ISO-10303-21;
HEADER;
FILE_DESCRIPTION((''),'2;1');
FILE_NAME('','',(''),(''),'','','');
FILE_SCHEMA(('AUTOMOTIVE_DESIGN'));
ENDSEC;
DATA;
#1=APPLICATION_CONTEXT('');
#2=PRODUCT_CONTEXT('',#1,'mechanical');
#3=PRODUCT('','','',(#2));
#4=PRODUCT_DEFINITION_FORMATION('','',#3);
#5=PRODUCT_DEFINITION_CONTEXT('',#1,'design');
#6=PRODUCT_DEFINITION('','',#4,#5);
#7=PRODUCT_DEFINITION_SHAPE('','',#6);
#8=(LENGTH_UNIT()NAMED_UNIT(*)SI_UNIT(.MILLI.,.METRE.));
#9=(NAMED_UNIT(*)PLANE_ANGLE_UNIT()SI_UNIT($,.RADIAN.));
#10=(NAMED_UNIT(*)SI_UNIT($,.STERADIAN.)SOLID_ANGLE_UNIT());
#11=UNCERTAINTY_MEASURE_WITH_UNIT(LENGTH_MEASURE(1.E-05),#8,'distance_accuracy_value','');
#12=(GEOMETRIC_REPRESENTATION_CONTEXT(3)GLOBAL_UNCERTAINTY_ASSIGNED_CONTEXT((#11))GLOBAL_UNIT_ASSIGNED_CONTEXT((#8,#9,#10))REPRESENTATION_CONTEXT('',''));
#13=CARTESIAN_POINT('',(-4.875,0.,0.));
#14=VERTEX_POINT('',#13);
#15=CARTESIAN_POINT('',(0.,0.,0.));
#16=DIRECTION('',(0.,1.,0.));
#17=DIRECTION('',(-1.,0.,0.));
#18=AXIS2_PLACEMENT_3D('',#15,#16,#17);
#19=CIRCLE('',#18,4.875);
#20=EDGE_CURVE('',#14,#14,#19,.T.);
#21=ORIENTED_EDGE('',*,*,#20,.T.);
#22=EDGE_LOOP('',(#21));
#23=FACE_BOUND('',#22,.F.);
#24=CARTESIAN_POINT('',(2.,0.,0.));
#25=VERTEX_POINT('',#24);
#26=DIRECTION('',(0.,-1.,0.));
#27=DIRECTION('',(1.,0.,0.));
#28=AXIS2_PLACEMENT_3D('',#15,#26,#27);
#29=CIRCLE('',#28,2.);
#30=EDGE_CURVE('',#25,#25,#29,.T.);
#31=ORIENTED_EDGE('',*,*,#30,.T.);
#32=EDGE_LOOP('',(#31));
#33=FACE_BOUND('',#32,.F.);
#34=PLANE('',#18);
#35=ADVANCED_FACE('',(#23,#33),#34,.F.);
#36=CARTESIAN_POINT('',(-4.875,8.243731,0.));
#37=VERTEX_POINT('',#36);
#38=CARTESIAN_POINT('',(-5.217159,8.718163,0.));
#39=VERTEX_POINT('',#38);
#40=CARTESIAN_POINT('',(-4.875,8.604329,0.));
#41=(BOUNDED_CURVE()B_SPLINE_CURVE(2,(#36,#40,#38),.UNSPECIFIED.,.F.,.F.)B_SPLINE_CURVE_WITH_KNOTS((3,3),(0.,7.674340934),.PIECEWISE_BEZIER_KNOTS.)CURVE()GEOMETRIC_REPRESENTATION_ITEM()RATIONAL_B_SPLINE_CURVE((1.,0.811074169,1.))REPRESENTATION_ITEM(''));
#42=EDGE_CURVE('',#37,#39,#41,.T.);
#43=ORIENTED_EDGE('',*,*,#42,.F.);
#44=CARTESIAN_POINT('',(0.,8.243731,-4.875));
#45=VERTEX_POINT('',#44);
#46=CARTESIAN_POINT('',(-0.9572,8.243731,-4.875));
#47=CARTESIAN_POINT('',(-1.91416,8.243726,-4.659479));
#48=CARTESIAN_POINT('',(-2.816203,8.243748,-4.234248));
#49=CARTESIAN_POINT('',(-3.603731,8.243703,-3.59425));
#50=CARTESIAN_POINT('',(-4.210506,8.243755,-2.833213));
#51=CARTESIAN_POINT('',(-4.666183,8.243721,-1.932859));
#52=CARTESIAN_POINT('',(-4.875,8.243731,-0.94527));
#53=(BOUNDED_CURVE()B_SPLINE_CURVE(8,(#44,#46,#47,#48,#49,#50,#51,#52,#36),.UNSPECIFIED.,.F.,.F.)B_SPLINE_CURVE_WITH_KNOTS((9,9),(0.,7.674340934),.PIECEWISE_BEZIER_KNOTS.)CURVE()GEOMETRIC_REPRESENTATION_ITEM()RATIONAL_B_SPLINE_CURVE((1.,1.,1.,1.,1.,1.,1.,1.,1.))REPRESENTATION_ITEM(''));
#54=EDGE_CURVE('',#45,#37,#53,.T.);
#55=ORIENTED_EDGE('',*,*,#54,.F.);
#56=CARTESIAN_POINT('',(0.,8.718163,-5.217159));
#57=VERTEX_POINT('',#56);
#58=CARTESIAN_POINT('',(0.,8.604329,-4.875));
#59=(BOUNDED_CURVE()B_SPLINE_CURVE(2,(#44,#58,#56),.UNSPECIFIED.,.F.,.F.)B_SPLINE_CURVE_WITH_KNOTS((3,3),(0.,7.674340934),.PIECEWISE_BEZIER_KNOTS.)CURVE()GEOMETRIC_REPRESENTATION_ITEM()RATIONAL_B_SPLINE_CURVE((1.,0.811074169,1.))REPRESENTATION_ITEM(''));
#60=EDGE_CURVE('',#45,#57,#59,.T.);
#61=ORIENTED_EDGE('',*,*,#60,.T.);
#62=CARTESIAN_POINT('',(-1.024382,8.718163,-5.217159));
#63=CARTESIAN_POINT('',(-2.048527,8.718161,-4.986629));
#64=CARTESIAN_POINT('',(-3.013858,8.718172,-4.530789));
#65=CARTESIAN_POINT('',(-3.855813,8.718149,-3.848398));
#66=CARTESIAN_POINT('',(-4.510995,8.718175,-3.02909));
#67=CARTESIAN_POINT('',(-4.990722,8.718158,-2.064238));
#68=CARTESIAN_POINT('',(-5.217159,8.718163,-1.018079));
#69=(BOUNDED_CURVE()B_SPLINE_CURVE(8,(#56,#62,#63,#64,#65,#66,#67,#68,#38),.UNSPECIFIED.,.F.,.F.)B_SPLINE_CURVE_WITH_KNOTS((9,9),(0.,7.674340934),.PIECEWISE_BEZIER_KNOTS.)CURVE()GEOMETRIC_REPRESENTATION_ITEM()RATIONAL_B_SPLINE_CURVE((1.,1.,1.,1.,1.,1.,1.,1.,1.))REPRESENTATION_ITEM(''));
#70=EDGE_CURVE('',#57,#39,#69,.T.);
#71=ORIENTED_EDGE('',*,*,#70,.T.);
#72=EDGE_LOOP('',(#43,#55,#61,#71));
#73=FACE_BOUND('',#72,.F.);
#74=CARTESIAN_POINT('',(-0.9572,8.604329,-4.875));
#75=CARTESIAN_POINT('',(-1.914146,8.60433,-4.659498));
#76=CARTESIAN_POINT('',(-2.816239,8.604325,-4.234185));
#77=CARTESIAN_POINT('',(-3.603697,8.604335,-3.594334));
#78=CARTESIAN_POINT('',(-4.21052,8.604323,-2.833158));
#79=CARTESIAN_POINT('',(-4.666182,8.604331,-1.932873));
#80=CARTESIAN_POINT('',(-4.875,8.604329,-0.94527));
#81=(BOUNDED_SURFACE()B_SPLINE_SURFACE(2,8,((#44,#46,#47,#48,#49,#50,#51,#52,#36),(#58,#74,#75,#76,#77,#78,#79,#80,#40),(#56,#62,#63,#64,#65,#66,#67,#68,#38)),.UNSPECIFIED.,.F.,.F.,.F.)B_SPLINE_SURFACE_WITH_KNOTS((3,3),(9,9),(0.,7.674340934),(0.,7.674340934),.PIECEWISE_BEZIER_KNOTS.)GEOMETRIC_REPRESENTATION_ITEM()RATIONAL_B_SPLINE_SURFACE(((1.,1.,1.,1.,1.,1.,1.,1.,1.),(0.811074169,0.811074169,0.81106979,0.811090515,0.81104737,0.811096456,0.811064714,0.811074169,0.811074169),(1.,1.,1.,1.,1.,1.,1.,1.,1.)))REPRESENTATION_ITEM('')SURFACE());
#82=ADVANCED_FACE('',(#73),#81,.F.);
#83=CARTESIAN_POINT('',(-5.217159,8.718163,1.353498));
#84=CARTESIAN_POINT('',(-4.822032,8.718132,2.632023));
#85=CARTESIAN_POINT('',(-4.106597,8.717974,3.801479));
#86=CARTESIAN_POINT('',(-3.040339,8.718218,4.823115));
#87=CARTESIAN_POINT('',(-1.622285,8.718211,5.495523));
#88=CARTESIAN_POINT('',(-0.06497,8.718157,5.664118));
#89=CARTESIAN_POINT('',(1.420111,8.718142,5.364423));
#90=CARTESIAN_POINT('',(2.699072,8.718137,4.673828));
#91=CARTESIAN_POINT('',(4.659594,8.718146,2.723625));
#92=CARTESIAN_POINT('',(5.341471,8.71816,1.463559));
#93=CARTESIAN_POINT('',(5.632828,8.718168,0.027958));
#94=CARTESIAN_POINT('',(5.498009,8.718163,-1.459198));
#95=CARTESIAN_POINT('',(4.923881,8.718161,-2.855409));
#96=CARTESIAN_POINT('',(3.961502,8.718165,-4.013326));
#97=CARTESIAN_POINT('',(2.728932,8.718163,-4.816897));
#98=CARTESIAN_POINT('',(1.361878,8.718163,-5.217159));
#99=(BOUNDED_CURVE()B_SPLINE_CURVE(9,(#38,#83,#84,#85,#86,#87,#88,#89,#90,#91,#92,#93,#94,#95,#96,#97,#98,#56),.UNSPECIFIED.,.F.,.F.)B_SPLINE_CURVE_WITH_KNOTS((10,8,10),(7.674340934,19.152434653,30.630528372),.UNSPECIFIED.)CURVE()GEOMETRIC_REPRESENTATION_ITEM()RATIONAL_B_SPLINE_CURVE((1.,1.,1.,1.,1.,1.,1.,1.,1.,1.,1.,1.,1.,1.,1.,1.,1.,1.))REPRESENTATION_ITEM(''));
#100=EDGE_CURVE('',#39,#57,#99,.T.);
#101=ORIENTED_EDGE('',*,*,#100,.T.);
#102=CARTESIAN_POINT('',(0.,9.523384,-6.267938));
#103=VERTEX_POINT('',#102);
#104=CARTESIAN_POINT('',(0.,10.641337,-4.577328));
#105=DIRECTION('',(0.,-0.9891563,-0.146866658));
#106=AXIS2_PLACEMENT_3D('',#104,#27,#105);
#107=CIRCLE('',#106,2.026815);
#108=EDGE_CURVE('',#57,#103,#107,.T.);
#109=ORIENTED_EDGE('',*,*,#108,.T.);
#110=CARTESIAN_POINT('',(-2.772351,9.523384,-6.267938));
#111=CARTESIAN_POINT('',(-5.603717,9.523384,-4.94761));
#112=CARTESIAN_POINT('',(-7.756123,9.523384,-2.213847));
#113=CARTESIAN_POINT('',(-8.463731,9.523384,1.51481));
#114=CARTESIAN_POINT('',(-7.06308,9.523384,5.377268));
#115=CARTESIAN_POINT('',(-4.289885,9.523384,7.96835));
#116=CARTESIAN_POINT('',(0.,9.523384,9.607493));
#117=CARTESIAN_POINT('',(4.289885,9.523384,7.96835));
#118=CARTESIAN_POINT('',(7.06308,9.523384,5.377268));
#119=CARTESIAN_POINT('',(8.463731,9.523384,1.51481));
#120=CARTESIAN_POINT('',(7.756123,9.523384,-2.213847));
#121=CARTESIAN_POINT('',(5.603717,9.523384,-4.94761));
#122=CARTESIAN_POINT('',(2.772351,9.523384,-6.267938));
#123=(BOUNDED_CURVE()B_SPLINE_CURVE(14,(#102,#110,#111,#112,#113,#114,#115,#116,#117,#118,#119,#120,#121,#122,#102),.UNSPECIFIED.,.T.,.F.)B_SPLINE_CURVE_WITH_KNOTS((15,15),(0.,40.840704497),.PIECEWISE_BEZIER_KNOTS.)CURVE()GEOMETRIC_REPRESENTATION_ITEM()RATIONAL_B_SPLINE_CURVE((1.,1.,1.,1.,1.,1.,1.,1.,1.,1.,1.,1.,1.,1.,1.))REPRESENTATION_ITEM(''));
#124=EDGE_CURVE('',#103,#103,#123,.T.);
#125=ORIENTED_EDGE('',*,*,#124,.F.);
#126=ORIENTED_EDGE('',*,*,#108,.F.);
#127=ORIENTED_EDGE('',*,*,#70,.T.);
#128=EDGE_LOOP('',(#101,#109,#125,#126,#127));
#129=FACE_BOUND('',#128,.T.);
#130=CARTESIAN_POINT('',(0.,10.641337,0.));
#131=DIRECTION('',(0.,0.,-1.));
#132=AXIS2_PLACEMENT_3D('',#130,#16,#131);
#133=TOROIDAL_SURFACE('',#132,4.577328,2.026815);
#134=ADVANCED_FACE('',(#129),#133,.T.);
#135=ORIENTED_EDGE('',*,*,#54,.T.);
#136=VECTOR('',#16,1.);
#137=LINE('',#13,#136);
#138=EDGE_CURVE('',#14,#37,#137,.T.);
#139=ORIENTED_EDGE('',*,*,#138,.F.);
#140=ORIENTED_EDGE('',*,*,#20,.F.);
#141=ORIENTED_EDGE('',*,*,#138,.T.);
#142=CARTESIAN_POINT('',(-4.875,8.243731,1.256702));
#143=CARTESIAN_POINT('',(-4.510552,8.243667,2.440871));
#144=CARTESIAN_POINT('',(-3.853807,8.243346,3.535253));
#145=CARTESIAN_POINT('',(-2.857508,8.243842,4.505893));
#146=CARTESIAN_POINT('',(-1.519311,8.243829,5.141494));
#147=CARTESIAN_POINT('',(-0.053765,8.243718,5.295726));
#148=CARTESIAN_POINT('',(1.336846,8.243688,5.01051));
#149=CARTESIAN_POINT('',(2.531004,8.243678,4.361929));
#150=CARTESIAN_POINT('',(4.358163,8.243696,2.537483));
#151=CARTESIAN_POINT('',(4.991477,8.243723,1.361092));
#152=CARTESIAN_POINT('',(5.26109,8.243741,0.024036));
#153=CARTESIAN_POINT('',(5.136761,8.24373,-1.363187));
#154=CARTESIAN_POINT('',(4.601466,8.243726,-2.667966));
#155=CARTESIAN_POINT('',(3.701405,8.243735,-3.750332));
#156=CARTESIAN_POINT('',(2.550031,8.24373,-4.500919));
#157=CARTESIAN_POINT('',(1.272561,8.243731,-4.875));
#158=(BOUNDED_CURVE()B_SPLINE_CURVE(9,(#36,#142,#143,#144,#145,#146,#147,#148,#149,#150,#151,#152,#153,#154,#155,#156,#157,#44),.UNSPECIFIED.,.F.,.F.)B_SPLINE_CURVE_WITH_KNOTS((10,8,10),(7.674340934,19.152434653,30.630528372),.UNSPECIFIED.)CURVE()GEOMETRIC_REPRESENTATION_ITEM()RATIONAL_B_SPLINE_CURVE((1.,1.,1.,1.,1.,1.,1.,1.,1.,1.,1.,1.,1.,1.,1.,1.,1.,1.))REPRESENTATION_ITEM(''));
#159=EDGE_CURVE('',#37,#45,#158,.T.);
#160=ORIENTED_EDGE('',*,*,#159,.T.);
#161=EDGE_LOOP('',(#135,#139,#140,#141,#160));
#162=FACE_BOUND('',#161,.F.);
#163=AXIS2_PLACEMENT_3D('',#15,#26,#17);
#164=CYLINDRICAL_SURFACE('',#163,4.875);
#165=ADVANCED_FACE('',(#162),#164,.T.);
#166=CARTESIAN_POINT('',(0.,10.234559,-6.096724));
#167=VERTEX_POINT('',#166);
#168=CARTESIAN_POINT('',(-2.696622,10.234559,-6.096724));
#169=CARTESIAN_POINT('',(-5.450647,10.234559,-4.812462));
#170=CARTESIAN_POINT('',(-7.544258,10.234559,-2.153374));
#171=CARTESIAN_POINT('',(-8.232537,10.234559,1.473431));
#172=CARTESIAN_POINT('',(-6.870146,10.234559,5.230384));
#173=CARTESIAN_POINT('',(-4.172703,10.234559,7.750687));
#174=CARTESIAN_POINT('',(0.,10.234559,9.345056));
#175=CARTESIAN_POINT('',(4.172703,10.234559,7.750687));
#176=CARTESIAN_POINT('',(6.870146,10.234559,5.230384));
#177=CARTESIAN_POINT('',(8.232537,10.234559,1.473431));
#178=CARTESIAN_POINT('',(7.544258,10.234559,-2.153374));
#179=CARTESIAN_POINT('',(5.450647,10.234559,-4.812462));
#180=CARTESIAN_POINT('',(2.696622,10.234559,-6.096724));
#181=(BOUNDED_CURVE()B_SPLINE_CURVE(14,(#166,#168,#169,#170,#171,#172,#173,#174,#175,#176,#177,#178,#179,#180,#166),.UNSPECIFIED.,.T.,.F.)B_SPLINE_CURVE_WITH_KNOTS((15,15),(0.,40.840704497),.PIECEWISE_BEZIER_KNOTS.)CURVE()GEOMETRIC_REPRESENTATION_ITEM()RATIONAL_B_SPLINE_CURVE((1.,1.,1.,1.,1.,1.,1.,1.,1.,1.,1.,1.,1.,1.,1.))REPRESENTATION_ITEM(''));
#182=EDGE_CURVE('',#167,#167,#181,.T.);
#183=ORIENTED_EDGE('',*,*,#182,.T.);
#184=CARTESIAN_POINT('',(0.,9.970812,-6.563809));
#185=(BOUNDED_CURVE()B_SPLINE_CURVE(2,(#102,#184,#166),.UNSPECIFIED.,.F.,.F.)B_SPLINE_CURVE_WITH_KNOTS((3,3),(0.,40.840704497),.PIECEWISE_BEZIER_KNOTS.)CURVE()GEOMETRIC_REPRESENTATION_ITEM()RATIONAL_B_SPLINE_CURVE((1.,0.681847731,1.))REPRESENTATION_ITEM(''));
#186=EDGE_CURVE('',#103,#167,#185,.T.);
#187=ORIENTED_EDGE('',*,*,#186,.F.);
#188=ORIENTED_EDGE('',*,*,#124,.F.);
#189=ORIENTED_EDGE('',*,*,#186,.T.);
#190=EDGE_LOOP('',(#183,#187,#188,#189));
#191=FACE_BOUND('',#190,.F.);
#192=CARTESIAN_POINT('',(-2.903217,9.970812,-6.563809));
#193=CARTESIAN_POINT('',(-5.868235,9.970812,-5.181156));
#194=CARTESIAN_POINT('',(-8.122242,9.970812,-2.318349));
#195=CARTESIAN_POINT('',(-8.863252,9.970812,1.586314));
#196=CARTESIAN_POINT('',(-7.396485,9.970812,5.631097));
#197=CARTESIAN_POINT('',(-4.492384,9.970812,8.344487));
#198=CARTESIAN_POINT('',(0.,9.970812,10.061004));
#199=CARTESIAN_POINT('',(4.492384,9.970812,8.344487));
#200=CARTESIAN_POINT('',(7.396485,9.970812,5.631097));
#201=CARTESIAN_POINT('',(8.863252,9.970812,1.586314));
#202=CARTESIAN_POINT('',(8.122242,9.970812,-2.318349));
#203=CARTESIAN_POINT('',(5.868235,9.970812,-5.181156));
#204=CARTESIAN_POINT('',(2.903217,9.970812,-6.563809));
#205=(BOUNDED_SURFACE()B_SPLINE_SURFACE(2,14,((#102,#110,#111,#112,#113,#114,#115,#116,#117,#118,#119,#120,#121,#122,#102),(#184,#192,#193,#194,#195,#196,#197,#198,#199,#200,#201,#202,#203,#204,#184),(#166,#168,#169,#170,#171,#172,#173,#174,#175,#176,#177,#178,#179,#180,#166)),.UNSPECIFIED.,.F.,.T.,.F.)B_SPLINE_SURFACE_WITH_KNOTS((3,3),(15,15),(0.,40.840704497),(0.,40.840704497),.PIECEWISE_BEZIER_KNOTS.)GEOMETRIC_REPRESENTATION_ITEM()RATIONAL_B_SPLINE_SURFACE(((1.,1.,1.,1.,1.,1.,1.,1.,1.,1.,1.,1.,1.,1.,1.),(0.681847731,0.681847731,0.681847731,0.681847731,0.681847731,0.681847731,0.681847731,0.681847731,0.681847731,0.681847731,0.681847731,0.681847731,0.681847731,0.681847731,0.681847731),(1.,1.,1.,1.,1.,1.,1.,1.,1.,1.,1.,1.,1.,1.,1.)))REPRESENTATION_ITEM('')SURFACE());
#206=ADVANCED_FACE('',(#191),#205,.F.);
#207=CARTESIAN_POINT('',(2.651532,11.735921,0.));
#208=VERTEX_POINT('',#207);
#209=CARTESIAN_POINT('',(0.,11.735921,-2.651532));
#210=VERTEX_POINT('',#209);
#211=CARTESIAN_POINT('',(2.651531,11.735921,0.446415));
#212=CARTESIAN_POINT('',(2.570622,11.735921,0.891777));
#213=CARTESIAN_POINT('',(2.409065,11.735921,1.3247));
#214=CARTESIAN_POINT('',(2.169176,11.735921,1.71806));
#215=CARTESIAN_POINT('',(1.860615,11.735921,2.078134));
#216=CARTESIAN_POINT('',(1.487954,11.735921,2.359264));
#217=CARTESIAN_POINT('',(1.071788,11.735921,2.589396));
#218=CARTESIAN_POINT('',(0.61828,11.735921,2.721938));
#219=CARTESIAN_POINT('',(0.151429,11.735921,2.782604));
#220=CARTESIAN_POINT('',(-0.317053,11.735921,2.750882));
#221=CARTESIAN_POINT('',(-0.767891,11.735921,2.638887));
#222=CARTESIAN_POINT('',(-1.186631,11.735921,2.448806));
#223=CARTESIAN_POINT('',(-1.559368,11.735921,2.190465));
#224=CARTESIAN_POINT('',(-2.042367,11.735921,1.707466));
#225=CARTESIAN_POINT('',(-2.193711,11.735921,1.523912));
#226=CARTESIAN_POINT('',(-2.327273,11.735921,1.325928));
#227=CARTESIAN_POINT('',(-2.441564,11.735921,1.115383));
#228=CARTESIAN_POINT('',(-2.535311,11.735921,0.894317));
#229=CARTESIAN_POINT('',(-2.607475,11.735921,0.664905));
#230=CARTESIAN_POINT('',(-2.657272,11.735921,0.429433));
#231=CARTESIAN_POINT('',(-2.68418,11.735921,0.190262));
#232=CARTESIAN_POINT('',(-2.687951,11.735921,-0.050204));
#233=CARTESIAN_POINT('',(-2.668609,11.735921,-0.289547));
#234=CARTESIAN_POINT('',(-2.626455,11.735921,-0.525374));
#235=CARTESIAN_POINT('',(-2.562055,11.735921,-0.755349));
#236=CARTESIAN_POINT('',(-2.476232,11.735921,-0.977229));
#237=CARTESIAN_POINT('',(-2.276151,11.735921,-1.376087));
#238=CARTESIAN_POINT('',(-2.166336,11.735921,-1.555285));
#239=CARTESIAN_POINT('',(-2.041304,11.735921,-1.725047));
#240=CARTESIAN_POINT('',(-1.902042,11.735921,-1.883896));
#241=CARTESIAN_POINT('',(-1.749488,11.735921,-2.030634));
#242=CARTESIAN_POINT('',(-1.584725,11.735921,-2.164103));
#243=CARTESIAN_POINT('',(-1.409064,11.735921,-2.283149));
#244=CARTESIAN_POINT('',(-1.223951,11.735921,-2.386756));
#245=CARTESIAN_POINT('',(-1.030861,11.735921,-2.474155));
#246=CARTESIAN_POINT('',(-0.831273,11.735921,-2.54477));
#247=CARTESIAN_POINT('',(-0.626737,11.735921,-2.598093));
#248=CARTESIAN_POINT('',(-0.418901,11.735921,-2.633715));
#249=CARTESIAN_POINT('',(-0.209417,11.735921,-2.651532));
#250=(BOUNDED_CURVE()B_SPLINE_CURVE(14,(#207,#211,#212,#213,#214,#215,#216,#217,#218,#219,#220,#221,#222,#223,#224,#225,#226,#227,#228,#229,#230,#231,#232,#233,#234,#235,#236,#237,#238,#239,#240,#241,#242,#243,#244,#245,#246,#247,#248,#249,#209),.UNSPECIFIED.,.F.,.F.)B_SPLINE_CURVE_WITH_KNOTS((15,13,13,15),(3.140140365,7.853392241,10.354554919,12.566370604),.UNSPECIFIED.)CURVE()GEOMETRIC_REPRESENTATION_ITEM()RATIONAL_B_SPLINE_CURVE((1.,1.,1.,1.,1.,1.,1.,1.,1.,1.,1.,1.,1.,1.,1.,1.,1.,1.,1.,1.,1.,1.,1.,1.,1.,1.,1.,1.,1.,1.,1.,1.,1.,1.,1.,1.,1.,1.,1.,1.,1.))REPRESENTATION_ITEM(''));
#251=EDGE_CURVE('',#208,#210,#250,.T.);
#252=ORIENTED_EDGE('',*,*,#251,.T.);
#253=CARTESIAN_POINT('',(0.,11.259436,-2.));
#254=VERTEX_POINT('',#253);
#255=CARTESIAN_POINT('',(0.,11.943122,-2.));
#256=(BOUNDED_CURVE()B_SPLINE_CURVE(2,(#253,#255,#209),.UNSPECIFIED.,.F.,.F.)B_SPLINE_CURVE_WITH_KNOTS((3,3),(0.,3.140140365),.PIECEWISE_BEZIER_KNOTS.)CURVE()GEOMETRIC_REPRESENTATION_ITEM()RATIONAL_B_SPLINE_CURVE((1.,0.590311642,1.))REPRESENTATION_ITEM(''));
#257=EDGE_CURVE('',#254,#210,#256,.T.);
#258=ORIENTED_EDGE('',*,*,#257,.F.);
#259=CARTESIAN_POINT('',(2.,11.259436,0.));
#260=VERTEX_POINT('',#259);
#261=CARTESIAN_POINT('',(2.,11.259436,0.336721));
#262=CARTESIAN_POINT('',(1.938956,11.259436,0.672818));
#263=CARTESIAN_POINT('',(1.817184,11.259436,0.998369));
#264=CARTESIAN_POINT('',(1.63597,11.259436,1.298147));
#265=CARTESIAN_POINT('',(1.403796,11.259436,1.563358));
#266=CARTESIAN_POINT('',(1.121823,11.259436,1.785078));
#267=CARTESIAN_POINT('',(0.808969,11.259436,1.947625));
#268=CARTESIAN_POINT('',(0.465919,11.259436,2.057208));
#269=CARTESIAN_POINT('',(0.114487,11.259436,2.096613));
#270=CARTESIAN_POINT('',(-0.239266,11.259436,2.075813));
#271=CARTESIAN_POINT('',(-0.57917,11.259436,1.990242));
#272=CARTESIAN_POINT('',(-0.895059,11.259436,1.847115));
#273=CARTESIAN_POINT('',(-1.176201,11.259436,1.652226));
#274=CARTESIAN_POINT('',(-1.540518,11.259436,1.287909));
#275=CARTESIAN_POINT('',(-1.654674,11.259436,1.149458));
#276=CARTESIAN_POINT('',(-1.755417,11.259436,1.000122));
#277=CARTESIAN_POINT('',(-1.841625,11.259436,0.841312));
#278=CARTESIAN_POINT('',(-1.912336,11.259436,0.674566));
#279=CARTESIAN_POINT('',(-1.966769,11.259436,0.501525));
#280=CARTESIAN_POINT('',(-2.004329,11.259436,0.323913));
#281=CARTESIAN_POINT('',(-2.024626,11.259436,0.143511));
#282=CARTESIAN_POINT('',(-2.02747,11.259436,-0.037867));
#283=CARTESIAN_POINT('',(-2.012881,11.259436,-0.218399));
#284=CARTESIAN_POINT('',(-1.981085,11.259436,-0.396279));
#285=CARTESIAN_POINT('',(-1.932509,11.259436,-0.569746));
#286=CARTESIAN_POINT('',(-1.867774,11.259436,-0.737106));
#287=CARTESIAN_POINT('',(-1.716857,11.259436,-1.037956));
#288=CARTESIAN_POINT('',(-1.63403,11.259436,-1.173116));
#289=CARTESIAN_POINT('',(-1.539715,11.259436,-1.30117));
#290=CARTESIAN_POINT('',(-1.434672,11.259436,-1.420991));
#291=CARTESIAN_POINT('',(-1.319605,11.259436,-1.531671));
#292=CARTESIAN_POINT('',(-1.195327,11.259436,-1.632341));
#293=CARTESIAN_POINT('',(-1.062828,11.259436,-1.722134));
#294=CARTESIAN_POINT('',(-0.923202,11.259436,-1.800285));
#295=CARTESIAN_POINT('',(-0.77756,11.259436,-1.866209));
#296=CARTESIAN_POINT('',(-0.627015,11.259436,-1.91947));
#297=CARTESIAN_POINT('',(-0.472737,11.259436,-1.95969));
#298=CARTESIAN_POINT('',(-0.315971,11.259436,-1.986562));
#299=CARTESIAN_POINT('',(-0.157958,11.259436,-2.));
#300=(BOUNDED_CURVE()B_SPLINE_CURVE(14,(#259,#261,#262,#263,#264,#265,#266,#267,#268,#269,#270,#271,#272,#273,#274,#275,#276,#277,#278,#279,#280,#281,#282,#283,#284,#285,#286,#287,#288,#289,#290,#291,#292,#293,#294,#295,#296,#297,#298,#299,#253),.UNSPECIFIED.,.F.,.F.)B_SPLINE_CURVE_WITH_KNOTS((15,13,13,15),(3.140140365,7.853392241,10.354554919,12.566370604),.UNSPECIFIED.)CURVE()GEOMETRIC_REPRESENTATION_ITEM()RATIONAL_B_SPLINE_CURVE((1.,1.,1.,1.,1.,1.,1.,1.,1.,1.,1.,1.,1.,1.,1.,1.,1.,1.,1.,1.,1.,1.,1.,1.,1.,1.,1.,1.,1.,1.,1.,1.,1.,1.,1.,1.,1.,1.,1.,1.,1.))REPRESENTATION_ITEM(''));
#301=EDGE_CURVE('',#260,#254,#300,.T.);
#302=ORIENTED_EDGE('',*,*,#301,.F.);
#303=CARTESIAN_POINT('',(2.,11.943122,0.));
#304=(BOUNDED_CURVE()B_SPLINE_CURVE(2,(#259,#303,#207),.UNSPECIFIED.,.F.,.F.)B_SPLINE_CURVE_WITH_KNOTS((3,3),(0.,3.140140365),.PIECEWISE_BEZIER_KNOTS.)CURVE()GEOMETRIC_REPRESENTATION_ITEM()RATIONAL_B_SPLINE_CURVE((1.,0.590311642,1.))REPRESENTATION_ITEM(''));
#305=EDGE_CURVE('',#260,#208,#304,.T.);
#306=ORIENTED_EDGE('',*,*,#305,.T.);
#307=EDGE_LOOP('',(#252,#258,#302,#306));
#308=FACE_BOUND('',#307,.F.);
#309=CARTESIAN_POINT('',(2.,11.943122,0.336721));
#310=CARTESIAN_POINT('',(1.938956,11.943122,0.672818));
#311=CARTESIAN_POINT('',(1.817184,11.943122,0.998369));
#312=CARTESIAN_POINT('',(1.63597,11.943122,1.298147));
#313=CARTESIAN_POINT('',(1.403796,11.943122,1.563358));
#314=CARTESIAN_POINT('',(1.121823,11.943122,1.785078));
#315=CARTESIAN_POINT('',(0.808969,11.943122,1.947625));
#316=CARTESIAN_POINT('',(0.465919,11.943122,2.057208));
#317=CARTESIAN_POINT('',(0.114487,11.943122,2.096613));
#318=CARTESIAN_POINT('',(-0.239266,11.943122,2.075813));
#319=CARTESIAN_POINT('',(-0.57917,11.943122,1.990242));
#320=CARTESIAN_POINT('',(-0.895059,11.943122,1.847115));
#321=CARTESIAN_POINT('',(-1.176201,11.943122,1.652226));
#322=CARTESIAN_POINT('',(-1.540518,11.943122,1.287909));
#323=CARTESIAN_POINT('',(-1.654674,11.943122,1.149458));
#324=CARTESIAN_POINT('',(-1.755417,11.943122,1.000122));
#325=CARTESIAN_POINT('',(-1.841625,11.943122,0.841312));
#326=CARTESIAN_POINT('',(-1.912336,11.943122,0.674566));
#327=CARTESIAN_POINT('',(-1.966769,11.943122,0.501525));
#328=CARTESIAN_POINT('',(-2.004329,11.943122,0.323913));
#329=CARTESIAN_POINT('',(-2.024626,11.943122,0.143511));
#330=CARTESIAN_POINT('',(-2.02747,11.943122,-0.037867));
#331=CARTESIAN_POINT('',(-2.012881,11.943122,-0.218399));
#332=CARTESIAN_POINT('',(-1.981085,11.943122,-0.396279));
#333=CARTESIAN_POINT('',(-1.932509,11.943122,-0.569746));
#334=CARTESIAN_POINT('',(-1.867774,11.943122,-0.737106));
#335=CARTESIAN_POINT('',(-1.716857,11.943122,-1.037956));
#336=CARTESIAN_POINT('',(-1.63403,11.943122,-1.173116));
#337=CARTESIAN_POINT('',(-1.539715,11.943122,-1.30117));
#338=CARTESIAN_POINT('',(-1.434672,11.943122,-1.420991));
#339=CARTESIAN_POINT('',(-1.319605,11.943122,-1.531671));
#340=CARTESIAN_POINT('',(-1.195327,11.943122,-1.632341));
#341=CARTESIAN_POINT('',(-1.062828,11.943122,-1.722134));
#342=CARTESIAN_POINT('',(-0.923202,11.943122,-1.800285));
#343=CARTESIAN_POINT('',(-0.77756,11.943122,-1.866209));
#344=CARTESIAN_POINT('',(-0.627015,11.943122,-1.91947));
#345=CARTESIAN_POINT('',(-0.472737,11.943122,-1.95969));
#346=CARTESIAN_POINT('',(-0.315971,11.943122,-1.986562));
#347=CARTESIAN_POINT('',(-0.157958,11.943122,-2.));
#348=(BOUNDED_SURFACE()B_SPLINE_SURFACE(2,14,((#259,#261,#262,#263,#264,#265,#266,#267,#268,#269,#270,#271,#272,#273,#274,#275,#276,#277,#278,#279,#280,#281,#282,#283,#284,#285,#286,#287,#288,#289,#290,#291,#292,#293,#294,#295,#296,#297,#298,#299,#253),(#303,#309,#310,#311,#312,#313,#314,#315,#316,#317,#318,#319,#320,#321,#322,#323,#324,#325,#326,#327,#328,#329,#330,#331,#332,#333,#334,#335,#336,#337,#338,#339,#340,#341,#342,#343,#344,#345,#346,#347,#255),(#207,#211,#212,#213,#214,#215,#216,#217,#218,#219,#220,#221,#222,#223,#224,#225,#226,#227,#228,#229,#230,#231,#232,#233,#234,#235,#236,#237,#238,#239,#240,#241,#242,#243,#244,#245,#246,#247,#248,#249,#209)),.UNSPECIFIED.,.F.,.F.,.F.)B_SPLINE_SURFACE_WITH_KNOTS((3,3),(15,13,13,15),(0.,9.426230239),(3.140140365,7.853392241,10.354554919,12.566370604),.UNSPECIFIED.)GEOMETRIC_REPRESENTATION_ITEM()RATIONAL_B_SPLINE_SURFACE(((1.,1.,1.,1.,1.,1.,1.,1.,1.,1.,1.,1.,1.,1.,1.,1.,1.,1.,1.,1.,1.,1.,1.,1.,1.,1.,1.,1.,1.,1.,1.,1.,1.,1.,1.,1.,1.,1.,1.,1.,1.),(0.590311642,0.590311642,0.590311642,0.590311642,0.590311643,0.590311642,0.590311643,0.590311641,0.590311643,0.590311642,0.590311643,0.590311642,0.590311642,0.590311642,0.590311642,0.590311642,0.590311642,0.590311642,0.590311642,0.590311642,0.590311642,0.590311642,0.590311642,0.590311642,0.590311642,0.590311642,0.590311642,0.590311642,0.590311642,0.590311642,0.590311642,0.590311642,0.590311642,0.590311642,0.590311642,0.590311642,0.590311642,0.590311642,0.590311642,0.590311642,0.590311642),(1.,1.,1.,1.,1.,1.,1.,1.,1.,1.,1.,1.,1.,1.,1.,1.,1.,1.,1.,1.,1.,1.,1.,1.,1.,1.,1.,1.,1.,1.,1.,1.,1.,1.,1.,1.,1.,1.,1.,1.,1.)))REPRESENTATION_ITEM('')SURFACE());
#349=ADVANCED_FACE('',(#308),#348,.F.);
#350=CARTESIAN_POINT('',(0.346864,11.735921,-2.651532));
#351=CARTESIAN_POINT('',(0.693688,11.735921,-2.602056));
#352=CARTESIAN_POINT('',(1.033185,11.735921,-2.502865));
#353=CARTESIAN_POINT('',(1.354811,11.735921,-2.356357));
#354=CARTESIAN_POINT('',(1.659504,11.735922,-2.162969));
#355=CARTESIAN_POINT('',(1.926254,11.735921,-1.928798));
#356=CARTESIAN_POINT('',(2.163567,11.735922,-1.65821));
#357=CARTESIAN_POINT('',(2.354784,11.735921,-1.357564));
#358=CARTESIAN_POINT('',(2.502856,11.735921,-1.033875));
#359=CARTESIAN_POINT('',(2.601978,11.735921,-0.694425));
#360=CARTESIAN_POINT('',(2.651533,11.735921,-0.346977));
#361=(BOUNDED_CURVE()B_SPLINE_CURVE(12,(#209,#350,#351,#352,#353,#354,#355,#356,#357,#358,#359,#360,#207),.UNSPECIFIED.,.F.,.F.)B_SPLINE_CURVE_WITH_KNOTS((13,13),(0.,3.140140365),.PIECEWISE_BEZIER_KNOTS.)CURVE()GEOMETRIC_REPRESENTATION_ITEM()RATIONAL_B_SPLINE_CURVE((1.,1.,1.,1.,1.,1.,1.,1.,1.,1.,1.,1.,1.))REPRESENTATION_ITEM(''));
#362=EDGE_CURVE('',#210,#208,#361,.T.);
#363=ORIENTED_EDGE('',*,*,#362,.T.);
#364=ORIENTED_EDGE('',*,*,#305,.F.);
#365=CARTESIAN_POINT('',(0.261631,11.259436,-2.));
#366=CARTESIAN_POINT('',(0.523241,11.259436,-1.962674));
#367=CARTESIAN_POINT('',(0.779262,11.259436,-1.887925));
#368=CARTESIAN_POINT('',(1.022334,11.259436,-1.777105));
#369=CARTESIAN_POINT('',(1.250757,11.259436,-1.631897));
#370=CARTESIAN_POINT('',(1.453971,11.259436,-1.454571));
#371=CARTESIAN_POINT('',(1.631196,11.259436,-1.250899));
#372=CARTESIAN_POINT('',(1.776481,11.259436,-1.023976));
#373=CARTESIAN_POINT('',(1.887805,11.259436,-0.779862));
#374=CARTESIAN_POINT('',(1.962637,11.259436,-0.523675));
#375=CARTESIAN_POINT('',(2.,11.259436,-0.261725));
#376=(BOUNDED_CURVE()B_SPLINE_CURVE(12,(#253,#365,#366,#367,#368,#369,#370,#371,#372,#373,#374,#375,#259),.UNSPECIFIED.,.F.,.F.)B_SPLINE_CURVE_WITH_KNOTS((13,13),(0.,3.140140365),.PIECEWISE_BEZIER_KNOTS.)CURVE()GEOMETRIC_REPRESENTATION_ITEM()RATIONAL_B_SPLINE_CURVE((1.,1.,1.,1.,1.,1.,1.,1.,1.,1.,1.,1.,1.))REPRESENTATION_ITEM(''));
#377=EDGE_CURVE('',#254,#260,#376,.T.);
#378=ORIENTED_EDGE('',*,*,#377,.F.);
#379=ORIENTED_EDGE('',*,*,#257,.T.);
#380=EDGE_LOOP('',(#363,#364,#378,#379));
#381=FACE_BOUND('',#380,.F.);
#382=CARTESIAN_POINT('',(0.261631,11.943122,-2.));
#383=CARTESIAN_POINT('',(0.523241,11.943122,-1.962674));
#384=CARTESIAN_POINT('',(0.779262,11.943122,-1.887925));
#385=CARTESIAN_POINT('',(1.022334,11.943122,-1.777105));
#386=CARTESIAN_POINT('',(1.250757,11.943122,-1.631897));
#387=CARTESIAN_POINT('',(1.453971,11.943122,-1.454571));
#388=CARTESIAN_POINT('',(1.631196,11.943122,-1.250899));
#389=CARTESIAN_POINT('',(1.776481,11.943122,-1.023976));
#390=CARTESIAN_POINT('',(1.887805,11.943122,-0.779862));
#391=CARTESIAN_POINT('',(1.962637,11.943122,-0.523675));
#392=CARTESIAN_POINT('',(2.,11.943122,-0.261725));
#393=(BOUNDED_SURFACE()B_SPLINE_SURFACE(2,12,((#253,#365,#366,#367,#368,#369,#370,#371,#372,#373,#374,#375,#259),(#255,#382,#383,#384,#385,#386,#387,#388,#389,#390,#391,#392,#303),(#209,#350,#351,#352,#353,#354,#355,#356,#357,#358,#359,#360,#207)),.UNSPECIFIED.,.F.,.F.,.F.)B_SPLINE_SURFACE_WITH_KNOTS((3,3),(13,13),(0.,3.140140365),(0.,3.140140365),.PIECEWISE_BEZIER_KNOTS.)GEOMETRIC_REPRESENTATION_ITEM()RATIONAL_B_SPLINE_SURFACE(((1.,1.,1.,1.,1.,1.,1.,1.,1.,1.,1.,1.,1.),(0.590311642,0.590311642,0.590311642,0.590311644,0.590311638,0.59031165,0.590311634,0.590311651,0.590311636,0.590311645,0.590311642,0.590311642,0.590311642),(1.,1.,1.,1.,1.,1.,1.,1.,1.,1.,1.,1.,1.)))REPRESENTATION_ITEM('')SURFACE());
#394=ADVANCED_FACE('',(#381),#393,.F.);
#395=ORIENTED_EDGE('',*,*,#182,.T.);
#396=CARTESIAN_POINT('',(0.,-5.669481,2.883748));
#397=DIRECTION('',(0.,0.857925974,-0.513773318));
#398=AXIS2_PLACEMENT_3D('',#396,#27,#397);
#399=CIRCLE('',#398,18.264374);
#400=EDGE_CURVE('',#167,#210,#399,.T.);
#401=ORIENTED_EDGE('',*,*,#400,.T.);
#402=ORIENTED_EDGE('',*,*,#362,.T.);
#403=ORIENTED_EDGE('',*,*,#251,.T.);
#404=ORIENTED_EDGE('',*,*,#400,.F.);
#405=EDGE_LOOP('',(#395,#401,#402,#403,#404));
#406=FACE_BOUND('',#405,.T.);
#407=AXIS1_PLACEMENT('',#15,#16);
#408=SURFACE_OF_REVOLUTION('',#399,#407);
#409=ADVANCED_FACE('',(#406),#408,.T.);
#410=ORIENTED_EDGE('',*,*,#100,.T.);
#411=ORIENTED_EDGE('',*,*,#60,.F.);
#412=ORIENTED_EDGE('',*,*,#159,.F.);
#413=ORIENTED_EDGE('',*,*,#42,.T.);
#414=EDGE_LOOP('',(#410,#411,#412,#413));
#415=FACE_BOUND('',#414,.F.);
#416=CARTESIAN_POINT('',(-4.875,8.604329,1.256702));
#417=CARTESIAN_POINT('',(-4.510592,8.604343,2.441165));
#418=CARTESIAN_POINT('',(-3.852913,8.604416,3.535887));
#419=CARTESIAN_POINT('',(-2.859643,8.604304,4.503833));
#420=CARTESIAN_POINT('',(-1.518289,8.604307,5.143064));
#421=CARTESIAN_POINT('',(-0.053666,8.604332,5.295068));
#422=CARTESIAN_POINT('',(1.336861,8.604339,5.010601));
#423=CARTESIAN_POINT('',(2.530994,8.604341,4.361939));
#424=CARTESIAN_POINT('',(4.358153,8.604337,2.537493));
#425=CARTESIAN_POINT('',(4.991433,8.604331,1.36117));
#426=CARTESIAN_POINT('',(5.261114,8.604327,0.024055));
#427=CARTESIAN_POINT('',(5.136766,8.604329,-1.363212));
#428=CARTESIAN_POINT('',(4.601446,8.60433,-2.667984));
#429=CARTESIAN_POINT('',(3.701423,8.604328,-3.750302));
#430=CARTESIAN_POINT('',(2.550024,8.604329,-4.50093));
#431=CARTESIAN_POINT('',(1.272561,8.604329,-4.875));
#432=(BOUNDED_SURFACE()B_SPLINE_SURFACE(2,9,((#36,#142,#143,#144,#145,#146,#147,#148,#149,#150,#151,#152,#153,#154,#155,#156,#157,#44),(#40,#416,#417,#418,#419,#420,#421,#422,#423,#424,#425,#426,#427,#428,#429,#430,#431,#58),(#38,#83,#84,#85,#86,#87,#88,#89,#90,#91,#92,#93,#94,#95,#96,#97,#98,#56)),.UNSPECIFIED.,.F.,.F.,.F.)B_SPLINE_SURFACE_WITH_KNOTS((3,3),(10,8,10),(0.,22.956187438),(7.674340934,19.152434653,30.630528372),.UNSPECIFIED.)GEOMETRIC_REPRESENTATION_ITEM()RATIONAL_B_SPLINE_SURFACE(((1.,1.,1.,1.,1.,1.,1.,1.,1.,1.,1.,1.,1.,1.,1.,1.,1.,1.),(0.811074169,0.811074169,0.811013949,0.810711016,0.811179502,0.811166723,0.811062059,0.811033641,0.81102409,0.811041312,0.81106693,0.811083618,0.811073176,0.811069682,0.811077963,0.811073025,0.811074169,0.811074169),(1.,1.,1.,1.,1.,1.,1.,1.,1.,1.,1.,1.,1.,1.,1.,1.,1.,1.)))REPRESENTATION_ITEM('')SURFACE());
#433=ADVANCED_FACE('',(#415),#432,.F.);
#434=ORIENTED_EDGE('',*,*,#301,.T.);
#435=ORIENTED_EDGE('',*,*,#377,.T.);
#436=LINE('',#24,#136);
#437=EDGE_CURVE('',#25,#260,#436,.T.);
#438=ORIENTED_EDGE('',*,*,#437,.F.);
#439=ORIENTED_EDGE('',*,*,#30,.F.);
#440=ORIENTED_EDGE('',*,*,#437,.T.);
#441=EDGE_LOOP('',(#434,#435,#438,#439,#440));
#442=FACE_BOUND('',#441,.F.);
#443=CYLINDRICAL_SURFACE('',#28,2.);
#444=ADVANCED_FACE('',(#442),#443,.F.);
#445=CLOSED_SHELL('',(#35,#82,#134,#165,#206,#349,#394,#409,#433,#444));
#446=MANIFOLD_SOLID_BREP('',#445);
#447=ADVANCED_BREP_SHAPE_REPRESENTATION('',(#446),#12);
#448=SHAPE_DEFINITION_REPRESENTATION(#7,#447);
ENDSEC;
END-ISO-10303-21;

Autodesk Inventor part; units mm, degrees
ref_plane "YZ Plane" through (0, 0, 0) normal (1, 0, 0) x (0, 1, 0)
ref_plane "XZ Plane" through (0, 0, 0) normal (0, 1, 0) x (-1, 0, 0)
ref_plane "XY Plane" through (0, 0, 0) normal (0, 0, 1) x (1, 0, 0)
sketch "Sketch1" plane through (0, 0, 0) normal (0, 1, 0) x (-1, 0, 0)
  circle A0 centre (0, 0) radius 4.875
  dimension "d0" = 9.75
extrude "Extrusion1" add sketch "Sketch1" along normal blind 10
sketch "Sketch2" plane through (0, 0, 0) normal (1, 0, 0) x (0, 1, 0)
  line L0 (0, 0) -> (10, 0)
  line L1 (10, -4.875) -> (10, 4.875) projected
  line L2 (10, 0) -> (10, -6.5)
  arc A0 (10, -6.5) -> (12.3658, 0) centre (-5.6698, 2.8839) ccw
  line L3 (10, -6.5) -> (12.3658, 0) construction
  line L4 (10, -6.5) -> (16.9172, -6.5) construction
  line L5 (0, -4.875) -> (10, -4.875) projected
  arc A1 (8.6365, -4.875) -> (10, -6.5) centre (10.6414, -4.5773) ccw
  line L6 (10, -6.5) -> (8.6365, -4.875) construction
  line L7 (10, -6.5) -> (12.1213, -6.5) construction
  line L8 (8.6365, -4.875) -> (8.6365, 0)
  line L9 (12.3658, 0) -> (8.6365, 0)
  line L10 (12.3658, 0) -> (0, 0)
  line L11 (0, -4.875) -> (0, 4.875) projected
  dimension "d8" = 6.5
  dimension "d9" = 70
  dimension "d10" = 130
revolve "Revolution1" add sketch "Sketch2" angle 360 about axis through (0, 0, 0) along (0, 1, 0) contours L9 A0 L2 L1 | L5 L2 A1
sketch "Sketch4" plane through (0, 0, 0) normal (0, -1, 0) x (1, 0, 0)
  circle A0 centre (0, 0) radius 2
  dimension "d11" = 4
extrude "Extrusion2" cut sketch "Sketch4" against normal through all
fillet "Fillet2" radius 0.5 5 edges at (0, 10, 6.5) (1.4142, 11.9298, -1.4142) (-1.4141, 11.9298, 1.4143) (-3.4471, 8.6365, -3.4471) (3.4471, 8.6365, 3.4471)
properties part number "Part3pasador"
